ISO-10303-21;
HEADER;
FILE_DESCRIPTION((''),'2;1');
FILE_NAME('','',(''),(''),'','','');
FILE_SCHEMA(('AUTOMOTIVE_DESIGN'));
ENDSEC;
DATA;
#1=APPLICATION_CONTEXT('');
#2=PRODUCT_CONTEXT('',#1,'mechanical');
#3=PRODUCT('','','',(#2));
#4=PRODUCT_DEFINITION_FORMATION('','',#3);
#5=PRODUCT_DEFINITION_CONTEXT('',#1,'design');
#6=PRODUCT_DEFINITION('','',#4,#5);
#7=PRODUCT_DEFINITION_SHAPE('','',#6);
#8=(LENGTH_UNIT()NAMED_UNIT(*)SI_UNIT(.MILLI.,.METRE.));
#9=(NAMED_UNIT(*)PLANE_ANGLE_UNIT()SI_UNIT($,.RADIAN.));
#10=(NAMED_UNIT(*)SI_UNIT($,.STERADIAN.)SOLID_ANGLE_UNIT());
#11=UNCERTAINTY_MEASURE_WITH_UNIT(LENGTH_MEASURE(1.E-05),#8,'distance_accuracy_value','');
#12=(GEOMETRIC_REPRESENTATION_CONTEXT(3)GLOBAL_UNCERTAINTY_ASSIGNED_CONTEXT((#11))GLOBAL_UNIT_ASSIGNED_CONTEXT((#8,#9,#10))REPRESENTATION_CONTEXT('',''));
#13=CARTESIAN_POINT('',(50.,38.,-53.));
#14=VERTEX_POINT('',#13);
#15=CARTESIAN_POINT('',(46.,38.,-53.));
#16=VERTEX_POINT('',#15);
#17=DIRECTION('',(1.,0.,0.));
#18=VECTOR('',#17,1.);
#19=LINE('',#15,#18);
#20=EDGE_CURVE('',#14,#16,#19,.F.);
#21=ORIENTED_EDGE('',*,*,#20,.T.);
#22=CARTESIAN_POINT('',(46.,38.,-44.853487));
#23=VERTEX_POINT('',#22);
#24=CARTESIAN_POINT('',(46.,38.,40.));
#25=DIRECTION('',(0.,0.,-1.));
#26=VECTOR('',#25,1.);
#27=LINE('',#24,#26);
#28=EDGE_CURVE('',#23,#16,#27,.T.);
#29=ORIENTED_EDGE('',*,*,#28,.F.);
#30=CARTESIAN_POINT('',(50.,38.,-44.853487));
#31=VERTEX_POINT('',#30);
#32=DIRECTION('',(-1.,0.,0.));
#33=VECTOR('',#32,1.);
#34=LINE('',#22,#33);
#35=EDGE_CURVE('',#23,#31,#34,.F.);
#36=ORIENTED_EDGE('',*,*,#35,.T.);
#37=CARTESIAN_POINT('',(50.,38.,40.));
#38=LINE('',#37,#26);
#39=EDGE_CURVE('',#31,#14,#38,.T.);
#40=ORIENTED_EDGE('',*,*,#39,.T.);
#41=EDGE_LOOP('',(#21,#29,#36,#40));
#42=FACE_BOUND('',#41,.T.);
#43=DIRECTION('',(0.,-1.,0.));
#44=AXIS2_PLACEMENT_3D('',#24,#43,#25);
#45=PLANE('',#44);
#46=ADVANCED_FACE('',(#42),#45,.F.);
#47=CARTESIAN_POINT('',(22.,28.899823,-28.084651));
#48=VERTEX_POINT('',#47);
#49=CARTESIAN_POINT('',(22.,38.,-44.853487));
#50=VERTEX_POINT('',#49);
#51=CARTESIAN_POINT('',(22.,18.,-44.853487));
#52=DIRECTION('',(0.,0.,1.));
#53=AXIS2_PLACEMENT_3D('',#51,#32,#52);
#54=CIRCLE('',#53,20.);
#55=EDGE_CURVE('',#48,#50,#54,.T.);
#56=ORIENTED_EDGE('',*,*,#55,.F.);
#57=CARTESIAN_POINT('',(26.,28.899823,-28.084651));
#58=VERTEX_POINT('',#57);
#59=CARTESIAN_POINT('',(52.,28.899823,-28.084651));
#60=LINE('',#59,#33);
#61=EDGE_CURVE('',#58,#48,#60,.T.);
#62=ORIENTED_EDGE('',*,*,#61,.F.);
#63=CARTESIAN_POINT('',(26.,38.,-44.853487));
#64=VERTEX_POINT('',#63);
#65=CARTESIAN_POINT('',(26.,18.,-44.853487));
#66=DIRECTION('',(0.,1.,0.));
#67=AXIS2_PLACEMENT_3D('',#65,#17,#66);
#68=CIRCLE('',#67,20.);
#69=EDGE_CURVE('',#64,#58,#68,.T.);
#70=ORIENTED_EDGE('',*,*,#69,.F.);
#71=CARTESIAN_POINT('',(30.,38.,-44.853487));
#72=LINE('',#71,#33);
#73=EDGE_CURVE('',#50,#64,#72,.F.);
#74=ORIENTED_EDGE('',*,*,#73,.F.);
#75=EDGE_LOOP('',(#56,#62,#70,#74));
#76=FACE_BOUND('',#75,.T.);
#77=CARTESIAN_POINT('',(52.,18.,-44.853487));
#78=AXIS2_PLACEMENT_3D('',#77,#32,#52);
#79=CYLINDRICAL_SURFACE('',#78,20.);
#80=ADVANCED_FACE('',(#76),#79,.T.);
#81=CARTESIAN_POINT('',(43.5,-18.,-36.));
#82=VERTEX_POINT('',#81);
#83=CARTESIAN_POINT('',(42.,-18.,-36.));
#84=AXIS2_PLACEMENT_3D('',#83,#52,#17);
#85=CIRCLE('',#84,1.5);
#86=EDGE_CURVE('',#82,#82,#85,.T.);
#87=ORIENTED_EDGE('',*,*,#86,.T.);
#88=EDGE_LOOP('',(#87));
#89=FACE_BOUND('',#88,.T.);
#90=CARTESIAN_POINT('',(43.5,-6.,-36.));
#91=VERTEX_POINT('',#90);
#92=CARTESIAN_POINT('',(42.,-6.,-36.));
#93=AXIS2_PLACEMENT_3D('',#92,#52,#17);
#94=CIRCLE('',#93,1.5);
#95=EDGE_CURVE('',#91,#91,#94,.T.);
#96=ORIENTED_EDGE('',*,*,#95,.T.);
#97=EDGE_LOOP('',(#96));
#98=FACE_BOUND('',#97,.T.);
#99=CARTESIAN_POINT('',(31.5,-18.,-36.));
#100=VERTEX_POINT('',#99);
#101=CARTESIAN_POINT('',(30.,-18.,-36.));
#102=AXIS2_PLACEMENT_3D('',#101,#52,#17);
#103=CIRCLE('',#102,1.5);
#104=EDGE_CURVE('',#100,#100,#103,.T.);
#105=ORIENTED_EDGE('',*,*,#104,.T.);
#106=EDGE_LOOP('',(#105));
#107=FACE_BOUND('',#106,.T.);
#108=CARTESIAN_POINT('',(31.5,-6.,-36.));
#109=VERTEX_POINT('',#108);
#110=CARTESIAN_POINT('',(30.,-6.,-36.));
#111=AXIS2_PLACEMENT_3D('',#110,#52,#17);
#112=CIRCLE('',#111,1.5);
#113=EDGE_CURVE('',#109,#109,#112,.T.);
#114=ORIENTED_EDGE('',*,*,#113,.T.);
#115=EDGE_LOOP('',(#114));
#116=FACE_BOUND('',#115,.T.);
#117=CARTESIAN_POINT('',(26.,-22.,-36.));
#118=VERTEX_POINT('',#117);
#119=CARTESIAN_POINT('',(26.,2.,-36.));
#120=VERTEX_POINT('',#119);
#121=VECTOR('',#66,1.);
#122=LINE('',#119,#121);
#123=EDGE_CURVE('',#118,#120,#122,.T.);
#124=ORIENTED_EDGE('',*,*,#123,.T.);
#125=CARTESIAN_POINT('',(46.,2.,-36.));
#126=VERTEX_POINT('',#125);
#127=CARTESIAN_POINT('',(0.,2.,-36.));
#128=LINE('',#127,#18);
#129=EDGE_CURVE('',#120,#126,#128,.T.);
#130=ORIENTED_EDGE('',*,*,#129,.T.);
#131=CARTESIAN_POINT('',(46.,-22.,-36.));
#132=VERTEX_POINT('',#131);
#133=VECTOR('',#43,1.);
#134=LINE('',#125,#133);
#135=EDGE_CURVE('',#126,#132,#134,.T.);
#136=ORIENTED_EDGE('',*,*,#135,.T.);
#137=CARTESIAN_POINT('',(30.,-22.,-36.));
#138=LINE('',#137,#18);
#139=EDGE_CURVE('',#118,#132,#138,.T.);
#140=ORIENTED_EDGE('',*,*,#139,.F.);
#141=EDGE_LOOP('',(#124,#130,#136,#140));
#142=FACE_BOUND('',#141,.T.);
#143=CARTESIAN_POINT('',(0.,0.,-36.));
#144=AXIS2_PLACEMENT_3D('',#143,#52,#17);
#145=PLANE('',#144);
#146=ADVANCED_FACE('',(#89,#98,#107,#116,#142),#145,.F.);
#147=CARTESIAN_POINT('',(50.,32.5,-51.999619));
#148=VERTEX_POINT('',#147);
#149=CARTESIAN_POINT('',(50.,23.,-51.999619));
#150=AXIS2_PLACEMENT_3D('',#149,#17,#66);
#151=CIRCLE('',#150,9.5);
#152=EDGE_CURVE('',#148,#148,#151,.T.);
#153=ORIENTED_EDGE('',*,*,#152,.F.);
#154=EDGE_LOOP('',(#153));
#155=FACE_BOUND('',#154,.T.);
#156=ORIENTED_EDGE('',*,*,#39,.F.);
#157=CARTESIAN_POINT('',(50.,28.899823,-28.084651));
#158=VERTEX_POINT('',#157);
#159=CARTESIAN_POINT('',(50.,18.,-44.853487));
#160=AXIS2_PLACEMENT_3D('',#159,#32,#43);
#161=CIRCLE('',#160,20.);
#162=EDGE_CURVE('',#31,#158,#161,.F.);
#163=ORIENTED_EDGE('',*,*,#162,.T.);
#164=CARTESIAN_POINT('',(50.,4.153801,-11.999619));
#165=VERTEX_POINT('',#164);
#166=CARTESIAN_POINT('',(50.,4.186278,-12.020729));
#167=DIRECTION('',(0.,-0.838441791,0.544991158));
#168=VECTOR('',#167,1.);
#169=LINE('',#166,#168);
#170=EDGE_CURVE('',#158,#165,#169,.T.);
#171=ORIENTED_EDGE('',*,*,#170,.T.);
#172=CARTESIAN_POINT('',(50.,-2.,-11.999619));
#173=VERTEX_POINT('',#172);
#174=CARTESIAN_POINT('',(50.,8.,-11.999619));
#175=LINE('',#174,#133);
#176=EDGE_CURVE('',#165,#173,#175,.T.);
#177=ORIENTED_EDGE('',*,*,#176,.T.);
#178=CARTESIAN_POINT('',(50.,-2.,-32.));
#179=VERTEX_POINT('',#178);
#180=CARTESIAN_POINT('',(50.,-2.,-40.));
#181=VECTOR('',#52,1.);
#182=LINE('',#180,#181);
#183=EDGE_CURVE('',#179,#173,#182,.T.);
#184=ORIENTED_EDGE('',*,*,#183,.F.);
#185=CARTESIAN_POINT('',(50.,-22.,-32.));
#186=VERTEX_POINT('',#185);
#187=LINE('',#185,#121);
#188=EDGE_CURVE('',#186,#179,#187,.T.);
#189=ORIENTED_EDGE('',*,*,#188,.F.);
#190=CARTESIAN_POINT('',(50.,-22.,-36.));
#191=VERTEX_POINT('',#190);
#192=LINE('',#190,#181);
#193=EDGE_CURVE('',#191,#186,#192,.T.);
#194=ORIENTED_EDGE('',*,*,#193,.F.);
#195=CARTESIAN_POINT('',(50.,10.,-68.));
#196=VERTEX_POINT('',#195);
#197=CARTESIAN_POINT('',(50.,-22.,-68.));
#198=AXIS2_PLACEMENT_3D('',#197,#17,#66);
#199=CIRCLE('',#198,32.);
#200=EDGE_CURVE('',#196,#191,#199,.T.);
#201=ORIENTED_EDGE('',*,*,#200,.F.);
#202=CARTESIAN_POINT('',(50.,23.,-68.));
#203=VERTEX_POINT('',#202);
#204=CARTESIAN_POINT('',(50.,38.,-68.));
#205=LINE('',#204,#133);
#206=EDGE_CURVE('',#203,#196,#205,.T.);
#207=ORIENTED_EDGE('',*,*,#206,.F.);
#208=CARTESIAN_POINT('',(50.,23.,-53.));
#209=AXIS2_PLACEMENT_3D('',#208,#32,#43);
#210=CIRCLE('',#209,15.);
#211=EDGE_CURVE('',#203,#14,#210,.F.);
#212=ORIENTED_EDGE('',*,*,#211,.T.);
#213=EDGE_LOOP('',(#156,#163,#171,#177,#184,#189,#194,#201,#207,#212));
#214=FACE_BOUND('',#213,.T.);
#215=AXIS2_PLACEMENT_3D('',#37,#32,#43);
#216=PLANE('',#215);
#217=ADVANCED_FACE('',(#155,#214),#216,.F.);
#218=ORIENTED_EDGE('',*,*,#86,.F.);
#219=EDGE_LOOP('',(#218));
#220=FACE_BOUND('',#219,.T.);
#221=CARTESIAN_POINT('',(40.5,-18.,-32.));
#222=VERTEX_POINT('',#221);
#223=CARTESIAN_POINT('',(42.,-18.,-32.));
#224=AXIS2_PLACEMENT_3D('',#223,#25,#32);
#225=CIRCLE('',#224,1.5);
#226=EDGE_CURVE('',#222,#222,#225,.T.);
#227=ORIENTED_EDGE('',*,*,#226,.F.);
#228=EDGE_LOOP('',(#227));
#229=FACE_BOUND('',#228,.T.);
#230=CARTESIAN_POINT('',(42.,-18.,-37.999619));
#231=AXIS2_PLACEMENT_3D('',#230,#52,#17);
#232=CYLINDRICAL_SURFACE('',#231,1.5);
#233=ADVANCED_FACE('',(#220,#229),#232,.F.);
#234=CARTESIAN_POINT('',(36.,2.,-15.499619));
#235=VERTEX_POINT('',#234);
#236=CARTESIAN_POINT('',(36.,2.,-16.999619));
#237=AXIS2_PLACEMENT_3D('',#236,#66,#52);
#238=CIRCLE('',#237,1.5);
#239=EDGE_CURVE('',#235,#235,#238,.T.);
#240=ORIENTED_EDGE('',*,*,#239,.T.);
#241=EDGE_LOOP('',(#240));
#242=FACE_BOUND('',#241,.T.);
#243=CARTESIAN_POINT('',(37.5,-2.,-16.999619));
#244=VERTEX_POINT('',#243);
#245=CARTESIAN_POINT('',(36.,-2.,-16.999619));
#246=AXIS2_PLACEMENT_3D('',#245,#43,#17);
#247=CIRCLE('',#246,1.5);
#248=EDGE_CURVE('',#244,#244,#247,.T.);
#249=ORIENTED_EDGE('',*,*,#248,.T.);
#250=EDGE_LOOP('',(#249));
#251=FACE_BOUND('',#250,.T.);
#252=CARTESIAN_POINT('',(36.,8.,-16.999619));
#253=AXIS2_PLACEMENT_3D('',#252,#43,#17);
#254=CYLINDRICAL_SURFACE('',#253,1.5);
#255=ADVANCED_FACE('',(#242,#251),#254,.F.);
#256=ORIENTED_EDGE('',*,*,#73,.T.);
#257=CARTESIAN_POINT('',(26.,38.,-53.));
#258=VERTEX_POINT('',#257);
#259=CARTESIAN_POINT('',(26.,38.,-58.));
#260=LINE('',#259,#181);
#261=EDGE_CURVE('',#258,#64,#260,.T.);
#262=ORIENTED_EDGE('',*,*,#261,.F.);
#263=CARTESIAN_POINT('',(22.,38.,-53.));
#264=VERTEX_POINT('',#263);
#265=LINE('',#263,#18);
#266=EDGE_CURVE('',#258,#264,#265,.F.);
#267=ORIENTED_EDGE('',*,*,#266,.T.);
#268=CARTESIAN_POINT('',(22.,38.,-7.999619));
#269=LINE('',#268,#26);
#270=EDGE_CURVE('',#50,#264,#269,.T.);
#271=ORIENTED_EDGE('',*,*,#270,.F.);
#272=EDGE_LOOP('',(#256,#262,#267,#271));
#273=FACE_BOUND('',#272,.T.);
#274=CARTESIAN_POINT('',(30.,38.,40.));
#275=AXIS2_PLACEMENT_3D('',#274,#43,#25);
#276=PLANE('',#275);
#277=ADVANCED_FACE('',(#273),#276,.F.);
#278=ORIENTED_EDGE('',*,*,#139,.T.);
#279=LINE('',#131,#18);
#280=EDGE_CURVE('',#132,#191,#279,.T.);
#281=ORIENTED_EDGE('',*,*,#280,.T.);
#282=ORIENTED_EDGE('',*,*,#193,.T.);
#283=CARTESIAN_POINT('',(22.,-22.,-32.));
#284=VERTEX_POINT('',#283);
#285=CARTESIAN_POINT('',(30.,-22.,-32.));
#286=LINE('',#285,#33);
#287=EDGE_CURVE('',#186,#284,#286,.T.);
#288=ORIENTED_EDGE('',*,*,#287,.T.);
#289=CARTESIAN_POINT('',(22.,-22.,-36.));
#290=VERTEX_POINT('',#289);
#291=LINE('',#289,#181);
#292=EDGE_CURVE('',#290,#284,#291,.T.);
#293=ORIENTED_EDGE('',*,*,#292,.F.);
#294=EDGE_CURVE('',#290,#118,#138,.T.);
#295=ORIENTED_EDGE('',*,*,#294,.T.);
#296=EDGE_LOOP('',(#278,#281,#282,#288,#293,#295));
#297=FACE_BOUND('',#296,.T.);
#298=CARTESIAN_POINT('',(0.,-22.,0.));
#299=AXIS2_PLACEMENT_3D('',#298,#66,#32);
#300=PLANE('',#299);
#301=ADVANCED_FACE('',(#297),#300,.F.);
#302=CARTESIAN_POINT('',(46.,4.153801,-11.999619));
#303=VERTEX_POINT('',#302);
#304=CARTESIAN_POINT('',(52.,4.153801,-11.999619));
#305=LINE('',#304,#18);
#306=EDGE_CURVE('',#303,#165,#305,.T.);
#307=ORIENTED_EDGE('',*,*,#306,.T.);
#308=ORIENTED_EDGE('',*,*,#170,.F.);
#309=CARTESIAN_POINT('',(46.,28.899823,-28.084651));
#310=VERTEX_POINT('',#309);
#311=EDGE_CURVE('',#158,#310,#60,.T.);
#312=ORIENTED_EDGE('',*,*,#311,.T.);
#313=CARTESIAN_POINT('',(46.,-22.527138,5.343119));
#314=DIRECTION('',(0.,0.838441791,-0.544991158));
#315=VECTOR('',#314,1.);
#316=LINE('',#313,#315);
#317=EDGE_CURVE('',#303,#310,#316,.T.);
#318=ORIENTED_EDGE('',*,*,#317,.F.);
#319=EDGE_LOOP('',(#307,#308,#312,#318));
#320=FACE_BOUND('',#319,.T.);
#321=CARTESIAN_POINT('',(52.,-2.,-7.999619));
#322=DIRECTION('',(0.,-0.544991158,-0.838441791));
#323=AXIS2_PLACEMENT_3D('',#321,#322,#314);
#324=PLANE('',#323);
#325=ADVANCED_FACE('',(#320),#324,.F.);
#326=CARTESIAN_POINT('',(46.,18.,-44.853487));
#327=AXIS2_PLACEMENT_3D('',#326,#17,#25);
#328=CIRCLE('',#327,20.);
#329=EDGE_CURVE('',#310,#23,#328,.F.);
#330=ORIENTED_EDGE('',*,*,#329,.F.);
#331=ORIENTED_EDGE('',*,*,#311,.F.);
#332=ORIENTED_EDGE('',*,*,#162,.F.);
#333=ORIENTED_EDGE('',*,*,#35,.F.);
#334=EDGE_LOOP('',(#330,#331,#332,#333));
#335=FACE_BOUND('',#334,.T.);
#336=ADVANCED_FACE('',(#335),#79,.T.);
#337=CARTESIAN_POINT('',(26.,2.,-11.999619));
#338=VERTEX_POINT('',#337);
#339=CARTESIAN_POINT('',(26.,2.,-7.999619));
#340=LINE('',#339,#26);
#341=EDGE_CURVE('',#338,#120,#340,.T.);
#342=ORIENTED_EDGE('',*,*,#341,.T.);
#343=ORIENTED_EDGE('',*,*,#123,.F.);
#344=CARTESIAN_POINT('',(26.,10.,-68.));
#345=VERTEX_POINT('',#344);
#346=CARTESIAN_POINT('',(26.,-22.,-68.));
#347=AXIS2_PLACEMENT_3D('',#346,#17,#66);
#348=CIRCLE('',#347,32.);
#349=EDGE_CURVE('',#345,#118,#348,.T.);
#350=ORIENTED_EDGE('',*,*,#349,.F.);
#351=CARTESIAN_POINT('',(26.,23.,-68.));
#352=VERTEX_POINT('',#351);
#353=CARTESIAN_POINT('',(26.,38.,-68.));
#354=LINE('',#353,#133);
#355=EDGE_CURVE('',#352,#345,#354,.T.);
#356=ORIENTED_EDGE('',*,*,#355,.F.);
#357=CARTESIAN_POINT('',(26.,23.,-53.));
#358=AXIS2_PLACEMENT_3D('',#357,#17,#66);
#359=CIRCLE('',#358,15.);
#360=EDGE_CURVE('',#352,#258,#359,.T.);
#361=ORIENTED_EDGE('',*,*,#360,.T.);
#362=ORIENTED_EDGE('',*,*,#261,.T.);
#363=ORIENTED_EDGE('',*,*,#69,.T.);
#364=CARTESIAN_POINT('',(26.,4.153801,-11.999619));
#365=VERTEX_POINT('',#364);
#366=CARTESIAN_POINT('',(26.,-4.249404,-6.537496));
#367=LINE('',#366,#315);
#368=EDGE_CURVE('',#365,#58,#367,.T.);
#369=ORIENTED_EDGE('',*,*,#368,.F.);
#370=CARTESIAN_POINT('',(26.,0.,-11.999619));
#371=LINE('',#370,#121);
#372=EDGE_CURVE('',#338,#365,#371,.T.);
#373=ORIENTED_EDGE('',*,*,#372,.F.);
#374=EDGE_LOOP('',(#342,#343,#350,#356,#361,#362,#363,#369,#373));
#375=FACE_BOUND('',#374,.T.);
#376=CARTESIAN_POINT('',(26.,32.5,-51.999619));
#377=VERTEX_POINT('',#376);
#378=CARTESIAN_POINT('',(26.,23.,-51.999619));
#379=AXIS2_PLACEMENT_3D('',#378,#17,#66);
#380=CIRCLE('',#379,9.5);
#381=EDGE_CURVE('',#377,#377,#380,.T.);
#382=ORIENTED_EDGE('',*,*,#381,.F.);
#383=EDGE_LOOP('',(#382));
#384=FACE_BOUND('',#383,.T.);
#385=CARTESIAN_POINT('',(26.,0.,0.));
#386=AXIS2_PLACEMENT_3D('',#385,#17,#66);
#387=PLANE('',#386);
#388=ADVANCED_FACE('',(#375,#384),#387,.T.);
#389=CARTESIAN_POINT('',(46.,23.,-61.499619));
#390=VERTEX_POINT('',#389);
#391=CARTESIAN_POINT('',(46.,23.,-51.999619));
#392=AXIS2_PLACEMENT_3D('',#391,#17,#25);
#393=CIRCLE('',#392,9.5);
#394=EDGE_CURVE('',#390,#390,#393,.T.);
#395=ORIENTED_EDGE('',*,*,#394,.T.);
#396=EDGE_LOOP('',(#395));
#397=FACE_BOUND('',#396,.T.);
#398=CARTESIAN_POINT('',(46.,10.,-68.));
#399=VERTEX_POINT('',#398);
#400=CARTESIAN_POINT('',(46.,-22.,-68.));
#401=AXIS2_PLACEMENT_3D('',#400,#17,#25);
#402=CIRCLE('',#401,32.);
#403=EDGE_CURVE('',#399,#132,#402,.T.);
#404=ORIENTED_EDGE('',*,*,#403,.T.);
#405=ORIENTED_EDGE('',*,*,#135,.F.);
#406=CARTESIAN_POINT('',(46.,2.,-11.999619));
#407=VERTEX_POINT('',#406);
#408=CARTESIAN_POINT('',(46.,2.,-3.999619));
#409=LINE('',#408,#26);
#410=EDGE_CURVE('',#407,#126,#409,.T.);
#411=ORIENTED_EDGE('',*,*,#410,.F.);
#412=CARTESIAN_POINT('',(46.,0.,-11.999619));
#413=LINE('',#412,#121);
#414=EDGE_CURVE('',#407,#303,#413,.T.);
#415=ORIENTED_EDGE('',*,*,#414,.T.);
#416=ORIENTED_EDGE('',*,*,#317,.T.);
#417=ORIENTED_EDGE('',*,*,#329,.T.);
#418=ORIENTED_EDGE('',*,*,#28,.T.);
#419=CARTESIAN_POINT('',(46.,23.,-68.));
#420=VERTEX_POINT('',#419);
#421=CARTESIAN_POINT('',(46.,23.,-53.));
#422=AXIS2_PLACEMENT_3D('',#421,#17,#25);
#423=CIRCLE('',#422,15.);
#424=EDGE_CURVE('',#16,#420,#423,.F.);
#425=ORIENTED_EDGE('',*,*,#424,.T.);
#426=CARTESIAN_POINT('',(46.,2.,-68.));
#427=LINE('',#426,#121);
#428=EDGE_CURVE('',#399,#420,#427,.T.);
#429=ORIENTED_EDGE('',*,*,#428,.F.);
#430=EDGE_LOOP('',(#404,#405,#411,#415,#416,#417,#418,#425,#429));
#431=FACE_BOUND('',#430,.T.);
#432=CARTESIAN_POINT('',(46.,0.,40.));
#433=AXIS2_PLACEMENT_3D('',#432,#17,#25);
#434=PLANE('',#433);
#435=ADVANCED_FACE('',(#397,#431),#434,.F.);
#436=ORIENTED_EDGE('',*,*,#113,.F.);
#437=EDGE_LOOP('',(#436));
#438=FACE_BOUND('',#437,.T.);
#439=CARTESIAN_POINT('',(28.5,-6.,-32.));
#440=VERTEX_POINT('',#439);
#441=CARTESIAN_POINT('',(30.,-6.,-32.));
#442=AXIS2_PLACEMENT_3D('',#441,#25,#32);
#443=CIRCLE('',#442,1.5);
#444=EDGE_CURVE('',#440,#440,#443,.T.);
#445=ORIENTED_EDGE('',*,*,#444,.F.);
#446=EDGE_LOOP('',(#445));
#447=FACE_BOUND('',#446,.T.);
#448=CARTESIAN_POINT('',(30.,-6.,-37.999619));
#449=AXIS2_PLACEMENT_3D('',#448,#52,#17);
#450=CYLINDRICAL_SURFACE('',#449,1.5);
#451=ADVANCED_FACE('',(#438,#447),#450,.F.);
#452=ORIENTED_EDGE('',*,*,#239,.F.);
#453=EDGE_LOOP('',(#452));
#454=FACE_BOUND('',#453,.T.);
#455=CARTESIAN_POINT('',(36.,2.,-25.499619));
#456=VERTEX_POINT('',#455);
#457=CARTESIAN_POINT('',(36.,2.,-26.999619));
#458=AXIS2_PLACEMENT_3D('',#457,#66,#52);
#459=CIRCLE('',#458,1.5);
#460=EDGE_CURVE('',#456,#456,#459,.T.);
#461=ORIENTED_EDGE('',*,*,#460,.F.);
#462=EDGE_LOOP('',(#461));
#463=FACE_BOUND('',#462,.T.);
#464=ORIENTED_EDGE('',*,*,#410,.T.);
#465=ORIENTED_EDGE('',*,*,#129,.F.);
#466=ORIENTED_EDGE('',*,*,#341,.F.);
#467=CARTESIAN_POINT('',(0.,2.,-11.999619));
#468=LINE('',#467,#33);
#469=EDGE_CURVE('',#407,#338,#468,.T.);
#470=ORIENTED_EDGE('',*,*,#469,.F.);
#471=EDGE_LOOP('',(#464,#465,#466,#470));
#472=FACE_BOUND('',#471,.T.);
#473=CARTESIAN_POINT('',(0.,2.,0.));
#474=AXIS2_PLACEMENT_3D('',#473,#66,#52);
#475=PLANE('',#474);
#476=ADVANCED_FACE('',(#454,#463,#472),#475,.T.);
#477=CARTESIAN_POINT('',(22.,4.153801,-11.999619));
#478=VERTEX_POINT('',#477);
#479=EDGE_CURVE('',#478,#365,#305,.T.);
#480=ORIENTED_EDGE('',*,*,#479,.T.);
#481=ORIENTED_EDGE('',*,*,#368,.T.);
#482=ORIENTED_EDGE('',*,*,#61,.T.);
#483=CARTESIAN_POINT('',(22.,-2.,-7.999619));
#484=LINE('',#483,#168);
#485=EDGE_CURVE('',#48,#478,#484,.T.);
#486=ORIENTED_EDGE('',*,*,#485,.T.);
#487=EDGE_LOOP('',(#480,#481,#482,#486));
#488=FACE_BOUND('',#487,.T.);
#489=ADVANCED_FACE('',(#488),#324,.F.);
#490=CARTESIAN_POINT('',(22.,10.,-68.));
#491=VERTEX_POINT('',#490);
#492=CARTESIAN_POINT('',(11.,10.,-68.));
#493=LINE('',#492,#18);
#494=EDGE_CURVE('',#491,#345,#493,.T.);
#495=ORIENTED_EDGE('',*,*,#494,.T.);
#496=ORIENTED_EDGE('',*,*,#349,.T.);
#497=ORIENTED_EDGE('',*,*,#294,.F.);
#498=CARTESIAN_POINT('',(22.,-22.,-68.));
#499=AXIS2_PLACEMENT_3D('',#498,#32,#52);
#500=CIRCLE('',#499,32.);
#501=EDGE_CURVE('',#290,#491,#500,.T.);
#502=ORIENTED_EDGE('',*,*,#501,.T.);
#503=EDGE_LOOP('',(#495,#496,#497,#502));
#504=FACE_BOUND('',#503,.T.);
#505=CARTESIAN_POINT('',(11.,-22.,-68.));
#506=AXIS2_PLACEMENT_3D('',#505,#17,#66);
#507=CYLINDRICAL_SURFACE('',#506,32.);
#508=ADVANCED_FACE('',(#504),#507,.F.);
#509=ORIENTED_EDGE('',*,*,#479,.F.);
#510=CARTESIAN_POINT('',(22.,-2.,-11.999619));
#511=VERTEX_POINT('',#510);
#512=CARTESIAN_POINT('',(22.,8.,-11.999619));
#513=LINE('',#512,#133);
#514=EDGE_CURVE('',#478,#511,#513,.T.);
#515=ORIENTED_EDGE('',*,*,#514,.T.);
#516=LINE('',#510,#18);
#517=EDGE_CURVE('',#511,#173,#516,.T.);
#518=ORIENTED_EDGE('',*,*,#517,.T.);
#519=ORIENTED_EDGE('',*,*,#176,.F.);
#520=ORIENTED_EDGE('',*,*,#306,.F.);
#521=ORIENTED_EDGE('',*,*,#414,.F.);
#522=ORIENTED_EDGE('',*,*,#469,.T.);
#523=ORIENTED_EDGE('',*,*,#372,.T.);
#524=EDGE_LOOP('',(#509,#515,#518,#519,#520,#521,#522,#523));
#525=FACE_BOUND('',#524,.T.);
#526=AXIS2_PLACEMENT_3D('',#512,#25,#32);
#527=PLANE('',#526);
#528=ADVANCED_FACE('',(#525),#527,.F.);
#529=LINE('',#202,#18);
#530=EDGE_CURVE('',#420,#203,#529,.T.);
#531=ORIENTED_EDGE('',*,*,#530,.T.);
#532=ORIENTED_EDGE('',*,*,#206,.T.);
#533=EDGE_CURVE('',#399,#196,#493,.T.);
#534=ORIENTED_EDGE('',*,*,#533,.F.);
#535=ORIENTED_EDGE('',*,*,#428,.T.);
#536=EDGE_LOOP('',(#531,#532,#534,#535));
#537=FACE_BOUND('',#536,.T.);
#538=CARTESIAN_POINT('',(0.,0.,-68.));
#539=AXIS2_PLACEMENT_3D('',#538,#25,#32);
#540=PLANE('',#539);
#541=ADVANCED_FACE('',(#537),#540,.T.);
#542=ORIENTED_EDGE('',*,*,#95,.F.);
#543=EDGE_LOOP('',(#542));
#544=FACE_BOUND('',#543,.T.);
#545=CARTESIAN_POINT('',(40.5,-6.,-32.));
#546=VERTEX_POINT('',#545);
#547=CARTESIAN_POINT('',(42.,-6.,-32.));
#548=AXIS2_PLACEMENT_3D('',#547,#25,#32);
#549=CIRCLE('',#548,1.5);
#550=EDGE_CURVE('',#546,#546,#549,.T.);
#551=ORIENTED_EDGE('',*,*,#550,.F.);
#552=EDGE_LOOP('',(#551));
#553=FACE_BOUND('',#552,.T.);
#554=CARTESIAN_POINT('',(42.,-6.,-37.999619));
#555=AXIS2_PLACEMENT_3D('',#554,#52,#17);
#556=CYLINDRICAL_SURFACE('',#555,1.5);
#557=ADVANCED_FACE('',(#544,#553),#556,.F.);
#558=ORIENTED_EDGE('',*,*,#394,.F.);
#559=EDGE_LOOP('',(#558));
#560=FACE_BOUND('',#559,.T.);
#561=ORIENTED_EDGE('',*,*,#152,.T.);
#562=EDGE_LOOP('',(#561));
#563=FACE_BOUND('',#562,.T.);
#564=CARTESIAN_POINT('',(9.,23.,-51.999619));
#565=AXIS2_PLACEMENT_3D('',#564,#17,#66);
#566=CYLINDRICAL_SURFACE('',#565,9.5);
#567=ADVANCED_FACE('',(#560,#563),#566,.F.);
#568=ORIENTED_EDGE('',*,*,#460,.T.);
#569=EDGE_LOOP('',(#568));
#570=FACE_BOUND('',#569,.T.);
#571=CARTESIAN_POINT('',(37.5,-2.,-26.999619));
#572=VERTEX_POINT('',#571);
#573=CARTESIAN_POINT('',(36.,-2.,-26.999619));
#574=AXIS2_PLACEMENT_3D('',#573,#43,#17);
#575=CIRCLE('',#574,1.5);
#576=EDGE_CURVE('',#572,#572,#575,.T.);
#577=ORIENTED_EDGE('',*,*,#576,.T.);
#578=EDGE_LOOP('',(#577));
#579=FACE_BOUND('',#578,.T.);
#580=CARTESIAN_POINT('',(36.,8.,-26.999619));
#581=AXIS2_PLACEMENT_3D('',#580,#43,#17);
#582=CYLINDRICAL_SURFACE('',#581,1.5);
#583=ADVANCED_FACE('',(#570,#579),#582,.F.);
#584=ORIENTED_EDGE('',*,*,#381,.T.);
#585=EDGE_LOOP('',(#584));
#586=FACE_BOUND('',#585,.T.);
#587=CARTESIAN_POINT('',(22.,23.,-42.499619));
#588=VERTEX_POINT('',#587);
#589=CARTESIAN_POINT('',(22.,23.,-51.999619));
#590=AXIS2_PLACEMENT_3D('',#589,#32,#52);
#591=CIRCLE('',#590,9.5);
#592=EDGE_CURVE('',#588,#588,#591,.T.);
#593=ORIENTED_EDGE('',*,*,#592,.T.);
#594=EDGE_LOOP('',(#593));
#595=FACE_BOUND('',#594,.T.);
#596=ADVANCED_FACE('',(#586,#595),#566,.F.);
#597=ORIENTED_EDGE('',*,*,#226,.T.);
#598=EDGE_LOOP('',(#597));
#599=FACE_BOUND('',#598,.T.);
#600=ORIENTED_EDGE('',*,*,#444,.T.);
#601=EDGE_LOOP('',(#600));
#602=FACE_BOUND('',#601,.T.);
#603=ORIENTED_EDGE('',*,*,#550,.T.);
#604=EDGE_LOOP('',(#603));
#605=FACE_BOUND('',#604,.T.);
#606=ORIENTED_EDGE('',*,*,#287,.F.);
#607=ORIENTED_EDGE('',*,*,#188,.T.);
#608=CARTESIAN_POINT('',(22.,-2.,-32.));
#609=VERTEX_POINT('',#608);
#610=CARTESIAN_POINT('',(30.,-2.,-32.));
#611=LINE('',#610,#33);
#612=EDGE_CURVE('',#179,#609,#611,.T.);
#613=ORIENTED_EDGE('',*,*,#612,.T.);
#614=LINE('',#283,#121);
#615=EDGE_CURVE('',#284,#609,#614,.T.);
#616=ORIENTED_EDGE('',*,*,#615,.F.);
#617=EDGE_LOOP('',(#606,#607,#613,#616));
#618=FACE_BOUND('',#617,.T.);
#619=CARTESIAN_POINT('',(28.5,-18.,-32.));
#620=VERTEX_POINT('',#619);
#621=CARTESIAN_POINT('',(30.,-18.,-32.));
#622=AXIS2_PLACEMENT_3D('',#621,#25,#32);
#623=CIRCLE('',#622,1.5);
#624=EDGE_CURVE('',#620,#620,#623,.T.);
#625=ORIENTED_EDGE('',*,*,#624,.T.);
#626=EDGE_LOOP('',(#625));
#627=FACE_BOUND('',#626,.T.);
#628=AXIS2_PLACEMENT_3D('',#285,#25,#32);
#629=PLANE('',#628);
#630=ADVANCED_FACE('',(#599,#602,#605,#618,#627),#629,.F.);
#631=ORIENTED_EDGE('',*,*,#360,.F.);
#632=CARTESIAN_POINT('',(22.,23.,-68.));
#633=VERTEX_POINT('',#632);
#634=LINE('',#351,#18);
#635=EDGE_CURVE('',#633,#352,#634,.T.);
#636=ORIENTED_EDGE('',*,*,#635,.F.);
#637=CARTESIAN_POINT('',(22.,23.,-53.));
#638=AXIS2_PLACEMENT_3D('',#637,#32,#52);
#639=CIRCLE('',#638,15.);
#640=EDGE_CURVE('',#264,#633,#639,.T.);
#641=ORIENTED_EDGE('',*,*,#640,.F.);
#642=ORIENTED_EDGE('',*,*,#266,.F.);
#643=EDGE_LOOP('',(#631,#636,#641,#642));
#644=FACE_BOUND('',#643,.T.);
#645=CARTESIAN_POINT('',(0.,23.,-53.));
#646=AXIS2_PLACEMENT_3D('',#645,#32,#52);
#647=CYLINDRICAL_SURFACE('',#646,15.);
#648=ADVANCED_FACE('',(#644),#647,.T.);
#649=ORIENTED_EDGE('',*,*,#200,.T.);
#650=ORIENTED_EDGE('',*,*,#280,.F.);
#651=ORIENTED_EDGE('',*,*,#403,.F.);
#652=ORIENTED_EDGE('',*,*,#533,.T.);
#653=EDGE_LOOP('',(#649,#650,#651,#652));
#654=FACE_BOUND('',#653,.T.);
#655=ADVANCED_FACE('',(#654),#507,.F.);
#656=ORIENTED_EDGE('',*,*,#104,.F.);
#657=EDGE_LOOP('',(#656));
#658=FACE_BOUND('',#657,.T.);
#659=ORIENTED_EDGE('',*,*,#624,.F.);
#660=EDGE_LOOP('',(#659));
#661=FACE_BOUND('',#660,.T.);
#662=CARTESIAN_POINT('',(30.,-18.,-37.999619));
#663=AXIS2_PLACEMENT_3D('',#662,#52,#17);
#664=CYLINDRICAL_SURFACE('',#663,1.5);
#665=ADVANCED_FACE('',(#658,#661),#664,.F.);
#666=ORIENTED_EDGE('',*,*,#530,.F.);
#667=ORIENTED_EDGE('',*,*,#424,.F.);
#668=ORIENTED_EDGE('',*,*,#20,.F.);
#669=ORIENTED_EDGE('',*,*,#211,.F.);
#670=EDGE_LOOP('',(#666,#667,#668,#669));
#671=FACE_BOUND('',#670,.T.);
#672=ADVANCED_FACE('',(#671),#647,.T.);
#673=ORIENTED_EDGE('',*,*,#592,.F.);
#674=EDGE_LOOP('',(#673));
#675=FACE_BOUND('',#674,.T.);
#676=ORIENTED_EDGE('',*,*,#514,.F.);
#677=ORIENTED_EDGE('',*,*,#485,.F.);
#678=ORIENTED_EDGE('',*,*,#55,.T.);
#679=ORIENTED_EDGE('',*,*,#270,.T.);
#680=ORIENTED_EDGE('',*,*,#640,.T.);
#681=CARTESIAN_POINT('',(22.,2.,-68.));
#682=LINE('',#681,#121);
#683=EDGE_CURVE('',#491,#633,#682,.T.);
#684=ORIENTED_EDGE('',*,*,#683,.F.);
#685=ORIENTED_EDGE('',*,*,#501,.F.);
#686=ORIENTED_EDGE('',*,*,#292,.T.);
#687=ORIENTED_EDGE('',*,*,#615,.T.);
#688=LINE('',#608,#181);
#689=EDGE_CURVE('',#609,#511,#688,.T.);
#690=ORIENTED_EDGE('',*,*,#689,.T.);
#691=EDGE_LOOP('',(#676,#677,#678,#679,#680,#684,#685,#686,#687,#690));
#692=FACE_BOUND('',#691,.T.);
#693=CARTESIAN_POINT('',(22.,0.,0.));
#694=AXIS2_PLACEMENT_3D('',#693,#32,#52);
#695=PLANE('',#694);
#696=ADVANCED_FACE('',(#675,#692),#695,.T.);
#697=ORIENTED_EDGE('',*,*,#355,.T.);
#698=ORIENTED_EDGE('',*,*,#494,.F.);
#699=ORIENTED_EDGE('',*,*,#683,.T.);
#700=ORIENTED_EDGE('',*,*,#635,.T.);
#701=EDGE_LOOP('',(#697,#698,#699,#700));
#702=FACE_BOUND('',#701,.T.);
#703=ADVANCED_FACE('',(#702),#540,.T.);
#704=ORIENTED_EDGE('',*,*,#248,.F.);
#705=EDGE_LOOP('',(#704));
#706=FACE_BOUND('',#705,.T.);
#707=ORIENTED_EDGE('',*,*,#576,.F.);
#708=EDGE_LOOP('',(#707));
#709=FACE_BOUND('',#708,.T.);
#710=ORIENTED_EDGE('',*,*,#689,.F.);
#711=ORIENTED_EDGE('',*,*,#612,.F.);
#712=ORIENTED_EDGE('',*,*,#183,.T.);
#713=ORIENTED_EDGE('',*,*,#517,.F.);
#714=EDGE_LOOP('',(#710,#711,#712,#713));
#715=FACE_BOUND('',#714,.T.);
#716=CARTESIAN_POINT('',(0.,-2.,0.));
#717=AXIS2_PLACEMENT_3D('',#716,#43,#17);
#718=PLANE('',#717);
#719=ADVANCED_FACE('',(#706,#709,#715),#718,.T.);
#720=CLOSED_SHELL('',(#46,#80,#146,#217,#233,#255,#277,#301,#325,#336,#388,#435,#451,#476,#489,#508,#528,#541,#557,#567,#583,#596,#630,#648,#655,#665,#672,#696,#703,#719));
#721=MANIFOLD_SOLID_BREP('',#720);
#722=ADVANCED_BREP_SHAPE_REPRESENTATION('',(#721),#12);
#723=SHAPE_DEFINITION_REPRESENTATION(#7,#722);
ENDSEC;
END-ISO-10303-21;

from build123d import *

# Parameters (mm, degrees)
EXTRUDE_1_DEPTH      = 40
SKETCH_2_R           = 9.5
CUT_EXTRUDE_1_DEPTH  = 59.685603004
FILLET_1_R           = 10
SKETCH_5_R           = 1.5
CUT_EXTRUDE_4_DEPTH  = 59.685603004
CUT_EXTRUDE_START    = -1.5
SKETCH_6_R           = 10.5
SKETCH_6_R_2         = 9.5
CUT_EXTRUDE_5_DEPTH  = 1.5
SKETCH_7_W           = 51.462210428
SKETCH_7_H           = 48.175392078
CUT_EXTRUDE_6_DEPTH  = 47
FILLET_2_R           = 10
SKETCH_11_R          = 11.25
SKETCH_11_R_2        = 10.5
EXTRUDE_3_DEPTH      = 1.5
SKETCH_12_R          = 11.25
SKETCH_12_R_2        = 10.5
EXTRUDE_4_DEPTH      = 0.7
SKETCH_13_R          = 10.5
SKETCH_13_R_2        = 9.5
CUT_EXTRUDE_8_DEPTH  = 1
SKETCH_15_R          = 10.5
SKETCH_15_R_2        = 9.5
EXTRUDE_5_DEPTH      = 0.5
SKETCH_17_W          = 12
SKETCH_17_H          = 36.000381057
EXTRUDE_6_DEPTH      = 2
SKETCH_18_W          = 20
SKETCH_18_H          = 36.000381057
CUT_EXTRUDE_9_DEPTH  = 2
SKETCH_19_R          = 1.5
EXTRUDE_7_DEPTH      = 4
EXTRUDE_START        = -4
SKETCH_20_R          = 1.5
EXTRUDE_8_DEPTH      = 4
EXTRUDE_9_DEPTH      = 44
SKETCH_22_W          = 64.499046495
SKETCH_22_H          = 49.763793388
CUT_EXTRUDE_10_DEPTH = 38
SKETCH_23_W          = 12
SKETCH_23_H          = 34.000142893
CUT_EXTRUDE_12_DEPTH = 38
SKETCH_24_W          = 23.945420323
SKETCH_24_H          = 48.426166837
CUT_EXTRUDE_13_DEPTH = 4
SKETCH_25_W          = 20
SKETCH_25_H          = 40
CUT_EXTRUDE_14_DEPTH = 4
EXTRUDE_10_DEPTH     = 4
EXTRUDE_11_DEPTH     = 4
SKETCH_30_R          = 10.5
SKETCH_30_R_2        = 7.5
EXTRUDE_12_DEPTH     = 4
SKETCH_31_R          = 10.5
SKETCH_31_R_2        = 9.5
EXTRUDE_13_DEPTH     = 1
SKETCH_32_R          = 8.25
SKETCH_32_R_2        = 7.5
CUT_EXTRUDE_15_DEPTH = 0.8
SKETCH_34_W          = 20
SKETCH_34_H          = 4
EXTRUDE_14_DEPTH     = 20
SKETCH_37_R          = 9.5
CUT_EXTRUDE_19_DEPTH = 10
SKETCH_38_R          = 10.5
CUT_EXTRUDE_20_DEPTH = 1
SKETCH_39_W          = 4
SKETCH_39_H          = 36
EXTRUDE_15_DEPTH     = 22
SKETCH_40_R          = 9.5
CUT_EXTRUDE_21_DEPTH = 22
SKETCH_41_R          = 9.5
EXTRUDE_16_DEPTH     = 4
SKETCH_44_R          = 10.5
EXTRUDE_17_DEPTH     = 4
EXTRUDE_START_2      = 8
SKETCH_45_R          = 9.5
EXTRUDE_18_DEPTH     = 8
CUT_EXTRUDE_22_DEPTH = 8
SKETCH_50_W          = 4
SKETCH_50_H          = 36
EXTRUDE_19_DEPTH     = 2
EXTRUDE_20_DEPTH     = 4
EXTRUDE_21_DEPTH     = 4
SKETCH_55_R          = 1.5
CUT_EXTRUDE_23_DEPTH = 30
CUT_EXTRUDE_24_DEPTH = 30
FILLET_4_R           = 20
SKETCH_58_W          = 28
SKETCH_58_H          = 20
CUT_EXTRUDE_25_DEPTH = 10
SKETCH_59_W          = 28
SKETCH_59_H          = 4
CUT_EXTRUDE_26_DEPTH = 10
SKETCH_60_R          = 1.5
CUT_EXTRUDE_27_DEPTH = 10
SKETCH_61_R          = 9.5
EXTRUDE_22_DEPTH     = 4
SKETCH_62_R          = 9.5
EXTRUDE_23_DEPTH     = 4
SKETCH_64_W          = 4
SKETCH_64_H          = 36
EXTRUDE_24_DEPTH     = 8
SKETCH_65_R          = 32
CUT_EXTRUDE_28_DEPTH = 39
SKETCH_66_R          = 9.5
CUT_EXTRUDE_29_DEPTH = 41
FILLET_5_R           = 15


with BuildPart() as part:
    # 草图1 → 凸台-拉伸1 (new, symmetric)
    with BuildSketch(Plane.XY):
        Polygon((30, -4), (30, 38), (34, 38), (34, 0), (46, 0), (46, 38), (50, 38), (50, -4), align=None)
    extrude(amount=EXTRUDE_1_DEPTH, both=True)

    # 草图2 → 切除-拉伸1 (cut, through all)
    with BuildSketch(Plane(origin=(50, 0, 0), x_dir=(0, 0, -1), z_dir=(1, 0, 0))):
        with Locations(Location((22, 22, 0), (0, 0, 90))):
            Circle(SKETCH_2_R)
        with Locations(Location((-22, 22, 0), (0, 0, 270))):
            Circle(SKETCH_2_R)
    extrude(amount=-CUT_EXTRUDE_1_DEPTH, mode=Mode.SUBTRACT)

    # 圆角1
    fillet_1_edges = [part.edges().sort_by_distance(p)[0] for p in [
        (32, 38, -40),
        (48, 38, 40),
        (32, 38, 40),
        (48, 38, -40),
    ]]
    fillet(fillet_1_edges, radius=FILLET_1_R)

    # 草图5 → 切除-拉伸4 (cut, through all)
    with BuildSketch(Plane(origin=(50, 0, 0), x_dir=(0, 0, -1), z_dir=(1, 0, 0))):
        with Locations(Location((34.990381057, 29.5, 0), (0, 0, 90))):
            Circle(SKETCH_5_R)
        with Locations(Location((22, 7, 0), (0, 0, 90))):
            Circle(SKETCH_5_R)
        with Locations(Location((9.009618943, 29.5, 0), (0, 0, 90))):
            Circle(SKETCH_5_R)
        with Locations(Location((-34.990381057, 29.5, 0), (0, 0, 270))):
            Circle(SKETCH_5_R)
        with Locations(Location((-22, 7, 0), (0, 0, 270))):
            Circle(SKETCH_5_R)
        with Locations(Location((-9.009618943, 29.5, 0), (0, 0, 270))):
            Circle(SKETCH_5_R)
    extrude(amount=-CUT_EXTRUDE_4_DEPTH, mode=Mode.SUBTRACT)

    # 草图6 → 切除-拉伸5 (cut)
    # profile 1 of 2: a face of its own
    with BuildSketch(Plane.ZY.offset(-30).offset(CUT_EXTRUDE_START)):
        with Locations((-22, 22)):
            Circle(SKETCH_6_R)
        with Locations((-22, 22)):
            Circle(SKETCH_6_R_2, mode=Mode.SUBTRACT)
    # profile 2 of 2: a face of its own
    with BuildSketch(Plane.ZY.offset(-30).offset(CUT_EXTRUDE_START)):
        with Locations((22, 22)):
            Circle(SKETCH_6_R)
        with Locations((22, 22)):
            Circle(SKETCH_6_R_2, mode=Mode.SUBTRACT)
    extrude(amount=CUT_EXTRUDE_5_DEPTH, mode=Mode.SUBTRACT)

    # 草图7 → 切除-拉伸6 (cut)
    with BuildSketch(Plane(origin=(50, 0, 0), x_dir=(0, 0, -1), z_dir=(1, 0, 0))):
        with Locations((-21.731486271, 13.912303961)):
            Rectangle(SKETCH_7_W, SKETCH_7_H)
    extrude(amount=-CUT_EXTRUDE_6_DEPTH, mode=Mode.SUBTRACT)

    # 圆角2
    fillet_2_edges = [part.edges().sort_by_distance(p)[0] for p in [
        (32, 38, -3.999618943),
        (48, 38, -3.999618943),
    ]]
    fillet(fillet_2_edges, radius=FILLET_2_R)

    # 草图11 → 凸台-拉伸3 (add)
    with BuildSketch(Plane.ZY.offset(-31.5)):
        with Locations((-22, 22)):
            Circle(SKETCH_11_R)
        with Locations((-22, 22)):
            Circle(SKETCH_11_R_2, mode=Mode.SUBTRACT)
    extrude(amount=EXTRUDE_3_DEPTH)

    # 草图12 → 凸台-拉伸4 (add)
    with BuildSketch(Plane.ZY.offset(-31.5)):
        with Locations((-22, 22)):
            Circle(SKETCH_12_R)
        with Locations((-22, 22)):
            Circle(SKETCH_12_R_2, mode=Mode.SUBTRACT)
    extrude(amount=EXTRUDE_4_DEPTH)

    # 草图13 → 切除-拉伸8 (cut)
    with BuildSketch(Plane(origin=(50, 0, 0), x_dir=(0, 0, -1), z_dir=(1, 0, 0))):
        with Locations(Location((22, 22, 0), (0, 0, 180))):
            Circle(SKETCH_13_R)
        with Locations(Location((22, 22, 0), (0, 0, 90))):
            Circle(SKETCH_13_R_2, mode=Mode.SUBTRACT)
    extrude(amount=-CUT_EXTRUDE_8_DEPTH, mode=Mode.SUBTRACT)

    # 草图15 → 凸台-拉伸5 (add)
    with BuildSketch(Plane.ZY.offset(-31.5)):
        with Locations((-22, 22)):
            Circle(SKETCH_15_R)
        with Locations(Location((-22, 22, 0), (0, 0, 90))):
            Circle(SKETCH_15_R_2, mode=Mode.SUBTRACT)
    extrude(amount=EXTRUDE_5_DEPTH)

    # 草图17 → 凸台-拉伸6 (add)
    with BuildSketch(Plane(origin=(0, 0, 0), x_dir=(1, 0, 0), z_dir=(0, 1, 0))):
        with Locations((40, 21.999809472)):
            Rectangle(SKETCH_17_W, SKETCH_17_H)
    extrude(amount=EXTRUDE_6_DEPTH)

    # 草图18 → 切除-拉伸9 (cut)
    with BuildSketch(Plane.XZ.offset(4)):
        with Locations((40, -21.999809472)):
            Rectangle(SKETCH_18_W, SKETCH_18_H)
    extrude(amount=-CUT_EXTRUDE_9_DEPTH, mode=Mode.SUBTRACT)

    # 草图19 → 凸台-拉伸7 (add)
    with BuildSketch(Plane(origin=(50, 0, 0), x_dir=(0, 0, -1), z_dir=(1, 0, 0))):
        with Locations(Location((34.990381057, 29.5, 0), (0, 0, 90))):
            Circle(SKETCH_19_R)
        with Locations(Location((9.009618943, 29.5, 0), (0, 0, 90))):
            Circle(SKETCH_19_R)
        with Locations(Location((22, 7, 0), (0, 0, 90))):
            Circle(SKETCH_19_R)
    extrude(amount=-EXTRUDE_7_DEPTH)

    # 草图20 → 凸台-拉伸8 (add)
    with BuildSketch(Plane.ZY.offset(-30).offset(EXTRUDE_START)):
        with Locations((-9.009618943, 29.5)):
            Circle(SKETCH_20_R)
        with Locations((-22, 7)):
            Circle(SKETCH_20_R)
        with Locations((-34.990381057, 29.5)):
            Circle(SKETCH_20_R)
    extrude(amount=EXTRUDE_8_DEPTH)

    # 草图21 → 凸台-拉伸9 (add)
    with BuildSketch(Plane.ZY.offset(-30)):
        with BuildLine():
            Line((-40, -2), (-35.999809472, -2))
            Line((-35.999809472, -2), (-35.999809472, 36.000142893))
            ThreePointArc((-35.999809472, 36.000142893), (-38.944218656, 32.472242462), (-40, 28))
            Line((-40, 28), (-40, -2))
        make_face()
        with BuildLine():
            Line((-7.999809472, 36.000142893), (-7.999809472, -2))
            Line((-7.999809472, -2), (-3.999618943, -2))
            Line((-3.999618943, -2), (-3.999618943, 28))
            ThreePointArc((-3.999618943, 28), (-5.055400288, 32.472242462), (-7.999809472, 36.000142893))
        make_face()
    extrude(amount=-EXTRUDE_9_DEPTH)

    # 草图22 → 切除-拉伸10 (cut)
    with BuildSketch(Plane(origin=(50, 0, 0), x_dir=(0, 0, -1), z_dir=(1, 0, 0))):
        with Locations((27.945354193, 20.62989223)):
            Rectangle(SKETCH_22_W, SKETCH_22_H)
    extrude(amount=CUT_EXTRUDE_10_DEPTH, mode=Mode.SUBTRACT)

    # 草图23 → 切除-拉伸12 (cut)
    with BuildSketch(Plane.XY.offset(-3.999618943)):
        with Locations((40, 19.000071447)):
            Rectangle(SKETCH_23_W, SKETCH_23_H)
    extrude(amount=-CUT_EXTRUDE_12_DEPTH, mode=Mode.SUBTRACT)

    # 草图24 → 切除-拉伸13 (cut)
    with BuildSketch(Plane.XY.offset(-3.999618943)):
        with Locations((41.972710162, 22.213083419)):
            Rectangle(SKETCH_24_W, SKETCH_24_H)
    extrude(amount=-CUT_EXTRUDE_13_DEPTH, mode=Mode.SUBTRACT)

    # 草图25 → 切除-拉伸14 (cut)
    with BuildSketch(Plane(origin=(0, 0, -40), x_dir=(-1, 0, 0), z_dir=(0, 0, -1))):
        with Locations((-40, 18)):
            Rectangle(SKETCH_25_W, SKETCH_25_H)
    extrude(amount=-CUT_EXTRUDE_14_DEPTH, mode=Mode.SUBTRACT)

    # 草图26 → 凸台-拉伸10 (add)
    with BuildSketch(Plane(origin=(50, 0, 0), x_dir=(0, 0, -1), z_dir=(1, 0, 0))):
        with BuildLine():
            Line((13.999618943, 38), (7.999618943, 38))
            Line((7.999618943, 38), (7.999618943, 36))
            ThreePointArc((7.999618943, 36), (10.837341283, 37.486832981), (13.999618943, 38))
        make_face()
        with BuildLine():
            Line((30, 38), (36, 38))
            Line((36, 38), (36, 36))
            ThreePointArc((36, 36), (33.16227766, 37.486832981), (30, 38))
        make_face()
    extrude(amount=-EXTRUDE_10_DEPTH)

    # 草图27 → 凸台-拉伸11 (add)
    with BuildSketch(Plane.ZY.offset(-30)):
        with BuildLine():
            Line((-7.999618943, 38), (-13.999618943, 38))
            ThreePointArc((-13.999618943, 38), (-10.837341283, 37.486832981), (-7.999618943, 36))
            Line((-7.999618943, 36), (-7.999618943, 38))
        make_face()
        with BuildLine():
            Line((-36, 38), (-30, 38))
            ThreePointArc((-30, 38), (-33.16227766, 37.486832981), (-36, 36))
            Line((-36, 36), (-36, 38))
        make_face()
    extrude(amount=-EXTRUDE_11_DEPTH)

    # 草图30 → 凸台-拉伸12 (add)
    with BuildSketch(Plane(origin=(50, 0, 0), x_dir=(0, 0, -1), z_dir=(1, 0, 0))):
        with Locations(Location((22, 22, 0), (0, 0, 180))):
            Circle(SKETCH_30_R)
        with Locations(Location((22, 22, 0), (0, 0, 90))):
            Circle(SKETCH_30_R_2, mode=Mode.SUBTRACT)
    extrude(amount=-EXTRUDE_12_DEPTH)

    # 草图31 → 凸台-拉伸13 (add)
    with BuildSketch(Plane.ZY.offset(-31)):
        with Locations((-22, 22)):
            Circle(SKETCH_31_R)
        with Locations((-22, 22)):
            Circle(SKETCH_31_R_2, mode=Mode.SUBTRACT)
    extrude(amount=EXTRUDE_13_DEPTH)

    # 草图32 → 切除-拉伸15 (cut)
    with BuildSketch(Plane(origin=(50, 0, 0), x_dir=(0, 0, -1), z_dir=(1, 0, 0))):
        with Locations(Location((22, 22, 0), (0, 0, 90))):
            Circle(SKETCH_32_R)
        with Locations(Location((22, 22, 0), (0, 0, 90))):
            Circle(SKETCH_32_R_2, mode=Mode.SUBTRACT)
    extrude(amount=-CUT_EXTRUDE_15_DEPTH, mode=Mode.SUBTRACT)

    # 草图34 → 凸台-拉伸14 (add)
    with BuildSketch(Plane.XZ.offset(2)):
        with Locations((40, -9.999618943)):
            Rectangle(SKETCH_34_W, SKETCH_34_H)
        with Locations((40, -34)):
            Rectangle(SKETCH_34_W, SKETCH_34_H)
    extrude(amount=EXTRUDE_14_DEPTH)

    # 草图37 → 切除-拉伸19 (cut)
    with BuildSketch(Plane(origin=(50, 0, 0), x_dir=(0, 0, -1), z_dir=(1, 0, 0))):
        with Locations(Location((22, 22, 0), (0, 0, 180))):
            Circle(SKETCH_37_R)
    extrude(amount=-CUT_EXTRUDE_19_DEPTH, mode=Mode.SUBTRACT)

    # 草图38 → 切除-拉伸20 (cut)
    with BuildSketch(Plane(origin=(50, 0, 0), x_dir=(0, 0, -1), z_dir=(1, 0, 0))):
        with Locations(Location((22, 22, 0), (0, 0, 90))):
            Circle(SKETCH_38_R)
    extrude(amount=-CUT_EXTRUDE_20_DEPTH, mode=Mode.SUBTRACT)

    # 草图39 → 凸台-拉伸15 (add)
    with BuildSketch(Plane(origin=(0, 0, -36), x_dir=(-1, 0, 0), z_dir=(0, 0, -1))):
        with Locations((-48, 20)):
            Rectangle(SKETCH_39_W, SKETCH_39_H)
        with Locations((-32, 20)):
            Rectangle(SKETCH_39_W, SKETCH_39_H)
    extrude(amount=EXTRUDE_15_DEPTH)

    # 草图40 → 切除-拉伸21 (cut)
    with BuildSketch(Plane.ZY.offset(-30)):
        with Locations((-44, 22)):
            Circle(SKETCH_40_R)
    extrude(amount=-CUT_EXTRUDE_21_DEPTH, mode=Mode.SUBTRACT)

    # 草图41 → 凸台-拉伸16 (add)
    with BuildSketch(Plane.ZY.offset(-30).offset(EXTRUDE_START)):
        with Locations(Location((-22, 22, 0), (0, 0, 90))):
            Circle(SKETCH_41_R)
    extrude(amount=EXTRUDE_16_DEPTH)

    # 草图44 → 凸台-拉伸17 (add)
    with BuildSketch(Plane(origin=(50, 0, 0), x_dir=(0, 0, -1), z_dir=(1, 0, 0))):
        with Locations((22, 22)):
            Circle(SKETCH_44_R)
    extrude(amount=-EXTRUDE_17_DEPTH)

    # 草图45 → 凸台-拉伸18 (add)
    with BuildSketch(Plane.ZY.offset(-30).offset(EXTRUDE_START_2)):
        Polygon((-7.999618943, 38), (-58, 38), (-58, 2), (-36, 2), (-36, -22), (-32, -22), (-32, -2), (-11.999618943, -2), (-11.999618943, -22), (-7.999618943, -22), align=None)
        with Locations((-44, 22)):
            Circle(SKETCH_45_R, mode=Mode.SUBTRACT)
    extrude(amount=-EXTRUDE_18_DEPTH)

    # 草图46 → 切除-拉伸22 (cut)
    with BuildSketch(Plane(origin=(34, 0, 0), x_dir=(0, 0, -1), z_dir=(1, 0, 0))):
        Polygon((7.999618943, 2), (36, 2), (58, 2), (58, 38), (7.999618943, 38), align=None)
    extrude(amount=-CUT_EXTRUDE_22_DEPTH, mode=Mode.SUBTRACT)

    # 草图50 → 凸台-拉伸19 (add)
    with BuildSketch(Plane(origin=(0, 0, -58), x_dir=(-1, 0, 0), z_dir=(0, 0, -1))):
        with Locations((-48, 20)):
            Rectangle(SKETCH_50_W, SKETCH_50_H)
        with Locations((-24, 20)):
            Rectangle(SKETCH_50_W, SKETCH_50_H)
    extrude(amount=EXTRUDE_19_DEPTH)

    # 草图51 → 凸台-拉伸20 (add)
    with BuildSketch(Plane.ZY.offset(-22)):
        with BuildLine():
            Line((-60, 2), (-36, 2))
            Line((-36, 2), (-36, -22))
            ThreePointArc((-36, -22), (-43.029437252, -5.029437252), (-60, 2))
        make_face()
    extrude(amount=-EXTRUDE_20_DEPTH)

    # 草图54 → 凸台-拉伸21 (add)
    with BuildSketch(Plane(origin=(50, 0, 0), x_dir=(0, 0, -1), z_dir=(1, 0, 0)).offset(EXTRUDE_START)):
        with BuildLine():
            Line((36, 2), (36, -22))
            ThreePointArc((36, -22), (43.029437252, -5.029437252), (60, 2))
            Line((60, 2), (36, 2))
        make_face()
    extrude(amount=EXTRUDE_21_DEPTH)

    # 草图55 → 切除-拉伸23 (cut)
    with BuildSketch(Plane.XY.offset(-7.999618943)):
        with Locations((30, -6)):
            Circle(SKETCH_55_R)
        with Locations((42, -6)):
            Circle(SKETCH_55_R)
        with Locations((42, -18)):
            Circle(SKETCH_55_R)
        with Locations((30, -18)):
            Circle(SKETCH_55_R)
    extrude(amount=-CUT_EXTRUDE_23_DEPTH, mode=Mode.SUBTRACT)

    # 草图57 → 切除-拉伸24 (cut)
    with BuildSketch(Plane.ZY.offset(-22)):
        Polygon((-7.999618943, -2), (-33.999809472, 38), (-7.999618943, 38), align=None)
    extrude(amount=-CUT_EXTRUDE_24_DEPTH, mode=Mode.SUBTRACT)

    # 圆角4
    fillet_4_edges = [part.edges().sort_by_distance(p)[0] for p in [
        (48, 38, -33.999809472),
        (24, 38, -33.999809472),
    ]]
    fillet(fillet_4_edges, radius=FILLET_4_R)

    # 草图58 → 切除-拉伸25 (cut)
    with BuildSketch(Plane(origin=(0, 0, -11.999618943), x_dir=(-1, 0, 0), z_dir=(0, 0, -1))):
        with Locations((-36, -12)):
            Rectangle(SKETCH_58_W, SKETCH_58_H)
    extrude(amount=-CUT_EXTRUDE_25_DEPTH, mode=Mode.SUBTRACT)

    # 草图59 → 切除-拉伸26 (cut)
    with BuildSketch(Plane.XZ.offset(2)):
        with Locations((36, -9.999618943)):
            Rectangle(SKETCH_59_W, SKETCH_59_H)
    extrude(amount=-CUT_EXTRUDE_26_DEPTH, mode=Mode.SUBTRACT)

    # 草图60 → 切除-拉伸27 (cut)
    with BuildSketch(Plane.XZ.offset(2)):
        with Locations((36, -16.999618943)):
            Circle(SKETCH_60_R)
        with Locations((36, -26.999618943)):
            Circle(SKETCH_60_R)
    extrude(amount=-CUT_EXTRUDE_27_DEPTH, mode=Mode.SUBTRACT)

    # 草图61 → 凸台-拉伸22 (add)
    with BuildSketch(Plane.ZY.offset(-22)):
        with Locations(Location((-44, 22, 0), (0, 0, 270))):
            Circle(SKETCH_61_R)
    extrude(amount=-EXTRUDE_22_DEPTH)

    # 草图62 → 凸台-拉伸23 (add)
    with BuildSketch(Plane(origin=(50, 0, 0), x_dir=(0, 0, -1), z_dir=(1, 0, 0)).offset(EXTRUDE_START)):
        with Locations((44, 22)):
            Circle(SKETCH_62_R)
    extrude(amount=EXTRUDE_23_DEPTH)

    # 草图64 → 凸台-拉伸24 (add)
    with BuildSketch(Plane(origin=(0, 0, -60), x_dir=(-1, 0, 0), z_dir=(0, 0, -1))):
        with Locations((-24, 20)):
            Rectangle(SKETCH_64_W, SKETCH_64_H)
        with Locations((-48, 20)):
            Rectangle(SKETCH_64_W, SKETCH_64_H)
    extrude(amount=EXTRUDE_24_DEPTH)

    # 草图65 → 切除-拉伸28 (cut)
    with BuildSketch(Plane(origin=(50, 0, 0), x_dir=(0, 0, -1), z_dir=(1, 0, 0))):
        with Locations((68, -22)):
            Circle(SKETCH_65_R)
    extrude(amount=-CUT_EXTRUDE_28_DEPTH, mode=Mode.SUBTRACT)

    # 草图66 → 切除-拉伸29 (cut)
    with BuildSketch(Plane(origin=(50, 0, 0), x_dir=(0, 0, -1), z_dir=(1, 0, 0))):
        with Locations(Location((51.999618943, 23, 0), (0, 0, 90))):
            Circle(SKETCH_66_R)
    extrude(amount=-CUT_EXTRUDE_29_DEPTH, mode=Mode.SUBTRACT)

    # 圆角5
    fillet_5_edges = [part.edges().sort_by_distance(p)[0] for p in [
        (24, 38, -68),
        (48, 38, -68),
    ]]
    fillet(fillet_5_edges, radius=FILLET_5_R)


solid = part.part
